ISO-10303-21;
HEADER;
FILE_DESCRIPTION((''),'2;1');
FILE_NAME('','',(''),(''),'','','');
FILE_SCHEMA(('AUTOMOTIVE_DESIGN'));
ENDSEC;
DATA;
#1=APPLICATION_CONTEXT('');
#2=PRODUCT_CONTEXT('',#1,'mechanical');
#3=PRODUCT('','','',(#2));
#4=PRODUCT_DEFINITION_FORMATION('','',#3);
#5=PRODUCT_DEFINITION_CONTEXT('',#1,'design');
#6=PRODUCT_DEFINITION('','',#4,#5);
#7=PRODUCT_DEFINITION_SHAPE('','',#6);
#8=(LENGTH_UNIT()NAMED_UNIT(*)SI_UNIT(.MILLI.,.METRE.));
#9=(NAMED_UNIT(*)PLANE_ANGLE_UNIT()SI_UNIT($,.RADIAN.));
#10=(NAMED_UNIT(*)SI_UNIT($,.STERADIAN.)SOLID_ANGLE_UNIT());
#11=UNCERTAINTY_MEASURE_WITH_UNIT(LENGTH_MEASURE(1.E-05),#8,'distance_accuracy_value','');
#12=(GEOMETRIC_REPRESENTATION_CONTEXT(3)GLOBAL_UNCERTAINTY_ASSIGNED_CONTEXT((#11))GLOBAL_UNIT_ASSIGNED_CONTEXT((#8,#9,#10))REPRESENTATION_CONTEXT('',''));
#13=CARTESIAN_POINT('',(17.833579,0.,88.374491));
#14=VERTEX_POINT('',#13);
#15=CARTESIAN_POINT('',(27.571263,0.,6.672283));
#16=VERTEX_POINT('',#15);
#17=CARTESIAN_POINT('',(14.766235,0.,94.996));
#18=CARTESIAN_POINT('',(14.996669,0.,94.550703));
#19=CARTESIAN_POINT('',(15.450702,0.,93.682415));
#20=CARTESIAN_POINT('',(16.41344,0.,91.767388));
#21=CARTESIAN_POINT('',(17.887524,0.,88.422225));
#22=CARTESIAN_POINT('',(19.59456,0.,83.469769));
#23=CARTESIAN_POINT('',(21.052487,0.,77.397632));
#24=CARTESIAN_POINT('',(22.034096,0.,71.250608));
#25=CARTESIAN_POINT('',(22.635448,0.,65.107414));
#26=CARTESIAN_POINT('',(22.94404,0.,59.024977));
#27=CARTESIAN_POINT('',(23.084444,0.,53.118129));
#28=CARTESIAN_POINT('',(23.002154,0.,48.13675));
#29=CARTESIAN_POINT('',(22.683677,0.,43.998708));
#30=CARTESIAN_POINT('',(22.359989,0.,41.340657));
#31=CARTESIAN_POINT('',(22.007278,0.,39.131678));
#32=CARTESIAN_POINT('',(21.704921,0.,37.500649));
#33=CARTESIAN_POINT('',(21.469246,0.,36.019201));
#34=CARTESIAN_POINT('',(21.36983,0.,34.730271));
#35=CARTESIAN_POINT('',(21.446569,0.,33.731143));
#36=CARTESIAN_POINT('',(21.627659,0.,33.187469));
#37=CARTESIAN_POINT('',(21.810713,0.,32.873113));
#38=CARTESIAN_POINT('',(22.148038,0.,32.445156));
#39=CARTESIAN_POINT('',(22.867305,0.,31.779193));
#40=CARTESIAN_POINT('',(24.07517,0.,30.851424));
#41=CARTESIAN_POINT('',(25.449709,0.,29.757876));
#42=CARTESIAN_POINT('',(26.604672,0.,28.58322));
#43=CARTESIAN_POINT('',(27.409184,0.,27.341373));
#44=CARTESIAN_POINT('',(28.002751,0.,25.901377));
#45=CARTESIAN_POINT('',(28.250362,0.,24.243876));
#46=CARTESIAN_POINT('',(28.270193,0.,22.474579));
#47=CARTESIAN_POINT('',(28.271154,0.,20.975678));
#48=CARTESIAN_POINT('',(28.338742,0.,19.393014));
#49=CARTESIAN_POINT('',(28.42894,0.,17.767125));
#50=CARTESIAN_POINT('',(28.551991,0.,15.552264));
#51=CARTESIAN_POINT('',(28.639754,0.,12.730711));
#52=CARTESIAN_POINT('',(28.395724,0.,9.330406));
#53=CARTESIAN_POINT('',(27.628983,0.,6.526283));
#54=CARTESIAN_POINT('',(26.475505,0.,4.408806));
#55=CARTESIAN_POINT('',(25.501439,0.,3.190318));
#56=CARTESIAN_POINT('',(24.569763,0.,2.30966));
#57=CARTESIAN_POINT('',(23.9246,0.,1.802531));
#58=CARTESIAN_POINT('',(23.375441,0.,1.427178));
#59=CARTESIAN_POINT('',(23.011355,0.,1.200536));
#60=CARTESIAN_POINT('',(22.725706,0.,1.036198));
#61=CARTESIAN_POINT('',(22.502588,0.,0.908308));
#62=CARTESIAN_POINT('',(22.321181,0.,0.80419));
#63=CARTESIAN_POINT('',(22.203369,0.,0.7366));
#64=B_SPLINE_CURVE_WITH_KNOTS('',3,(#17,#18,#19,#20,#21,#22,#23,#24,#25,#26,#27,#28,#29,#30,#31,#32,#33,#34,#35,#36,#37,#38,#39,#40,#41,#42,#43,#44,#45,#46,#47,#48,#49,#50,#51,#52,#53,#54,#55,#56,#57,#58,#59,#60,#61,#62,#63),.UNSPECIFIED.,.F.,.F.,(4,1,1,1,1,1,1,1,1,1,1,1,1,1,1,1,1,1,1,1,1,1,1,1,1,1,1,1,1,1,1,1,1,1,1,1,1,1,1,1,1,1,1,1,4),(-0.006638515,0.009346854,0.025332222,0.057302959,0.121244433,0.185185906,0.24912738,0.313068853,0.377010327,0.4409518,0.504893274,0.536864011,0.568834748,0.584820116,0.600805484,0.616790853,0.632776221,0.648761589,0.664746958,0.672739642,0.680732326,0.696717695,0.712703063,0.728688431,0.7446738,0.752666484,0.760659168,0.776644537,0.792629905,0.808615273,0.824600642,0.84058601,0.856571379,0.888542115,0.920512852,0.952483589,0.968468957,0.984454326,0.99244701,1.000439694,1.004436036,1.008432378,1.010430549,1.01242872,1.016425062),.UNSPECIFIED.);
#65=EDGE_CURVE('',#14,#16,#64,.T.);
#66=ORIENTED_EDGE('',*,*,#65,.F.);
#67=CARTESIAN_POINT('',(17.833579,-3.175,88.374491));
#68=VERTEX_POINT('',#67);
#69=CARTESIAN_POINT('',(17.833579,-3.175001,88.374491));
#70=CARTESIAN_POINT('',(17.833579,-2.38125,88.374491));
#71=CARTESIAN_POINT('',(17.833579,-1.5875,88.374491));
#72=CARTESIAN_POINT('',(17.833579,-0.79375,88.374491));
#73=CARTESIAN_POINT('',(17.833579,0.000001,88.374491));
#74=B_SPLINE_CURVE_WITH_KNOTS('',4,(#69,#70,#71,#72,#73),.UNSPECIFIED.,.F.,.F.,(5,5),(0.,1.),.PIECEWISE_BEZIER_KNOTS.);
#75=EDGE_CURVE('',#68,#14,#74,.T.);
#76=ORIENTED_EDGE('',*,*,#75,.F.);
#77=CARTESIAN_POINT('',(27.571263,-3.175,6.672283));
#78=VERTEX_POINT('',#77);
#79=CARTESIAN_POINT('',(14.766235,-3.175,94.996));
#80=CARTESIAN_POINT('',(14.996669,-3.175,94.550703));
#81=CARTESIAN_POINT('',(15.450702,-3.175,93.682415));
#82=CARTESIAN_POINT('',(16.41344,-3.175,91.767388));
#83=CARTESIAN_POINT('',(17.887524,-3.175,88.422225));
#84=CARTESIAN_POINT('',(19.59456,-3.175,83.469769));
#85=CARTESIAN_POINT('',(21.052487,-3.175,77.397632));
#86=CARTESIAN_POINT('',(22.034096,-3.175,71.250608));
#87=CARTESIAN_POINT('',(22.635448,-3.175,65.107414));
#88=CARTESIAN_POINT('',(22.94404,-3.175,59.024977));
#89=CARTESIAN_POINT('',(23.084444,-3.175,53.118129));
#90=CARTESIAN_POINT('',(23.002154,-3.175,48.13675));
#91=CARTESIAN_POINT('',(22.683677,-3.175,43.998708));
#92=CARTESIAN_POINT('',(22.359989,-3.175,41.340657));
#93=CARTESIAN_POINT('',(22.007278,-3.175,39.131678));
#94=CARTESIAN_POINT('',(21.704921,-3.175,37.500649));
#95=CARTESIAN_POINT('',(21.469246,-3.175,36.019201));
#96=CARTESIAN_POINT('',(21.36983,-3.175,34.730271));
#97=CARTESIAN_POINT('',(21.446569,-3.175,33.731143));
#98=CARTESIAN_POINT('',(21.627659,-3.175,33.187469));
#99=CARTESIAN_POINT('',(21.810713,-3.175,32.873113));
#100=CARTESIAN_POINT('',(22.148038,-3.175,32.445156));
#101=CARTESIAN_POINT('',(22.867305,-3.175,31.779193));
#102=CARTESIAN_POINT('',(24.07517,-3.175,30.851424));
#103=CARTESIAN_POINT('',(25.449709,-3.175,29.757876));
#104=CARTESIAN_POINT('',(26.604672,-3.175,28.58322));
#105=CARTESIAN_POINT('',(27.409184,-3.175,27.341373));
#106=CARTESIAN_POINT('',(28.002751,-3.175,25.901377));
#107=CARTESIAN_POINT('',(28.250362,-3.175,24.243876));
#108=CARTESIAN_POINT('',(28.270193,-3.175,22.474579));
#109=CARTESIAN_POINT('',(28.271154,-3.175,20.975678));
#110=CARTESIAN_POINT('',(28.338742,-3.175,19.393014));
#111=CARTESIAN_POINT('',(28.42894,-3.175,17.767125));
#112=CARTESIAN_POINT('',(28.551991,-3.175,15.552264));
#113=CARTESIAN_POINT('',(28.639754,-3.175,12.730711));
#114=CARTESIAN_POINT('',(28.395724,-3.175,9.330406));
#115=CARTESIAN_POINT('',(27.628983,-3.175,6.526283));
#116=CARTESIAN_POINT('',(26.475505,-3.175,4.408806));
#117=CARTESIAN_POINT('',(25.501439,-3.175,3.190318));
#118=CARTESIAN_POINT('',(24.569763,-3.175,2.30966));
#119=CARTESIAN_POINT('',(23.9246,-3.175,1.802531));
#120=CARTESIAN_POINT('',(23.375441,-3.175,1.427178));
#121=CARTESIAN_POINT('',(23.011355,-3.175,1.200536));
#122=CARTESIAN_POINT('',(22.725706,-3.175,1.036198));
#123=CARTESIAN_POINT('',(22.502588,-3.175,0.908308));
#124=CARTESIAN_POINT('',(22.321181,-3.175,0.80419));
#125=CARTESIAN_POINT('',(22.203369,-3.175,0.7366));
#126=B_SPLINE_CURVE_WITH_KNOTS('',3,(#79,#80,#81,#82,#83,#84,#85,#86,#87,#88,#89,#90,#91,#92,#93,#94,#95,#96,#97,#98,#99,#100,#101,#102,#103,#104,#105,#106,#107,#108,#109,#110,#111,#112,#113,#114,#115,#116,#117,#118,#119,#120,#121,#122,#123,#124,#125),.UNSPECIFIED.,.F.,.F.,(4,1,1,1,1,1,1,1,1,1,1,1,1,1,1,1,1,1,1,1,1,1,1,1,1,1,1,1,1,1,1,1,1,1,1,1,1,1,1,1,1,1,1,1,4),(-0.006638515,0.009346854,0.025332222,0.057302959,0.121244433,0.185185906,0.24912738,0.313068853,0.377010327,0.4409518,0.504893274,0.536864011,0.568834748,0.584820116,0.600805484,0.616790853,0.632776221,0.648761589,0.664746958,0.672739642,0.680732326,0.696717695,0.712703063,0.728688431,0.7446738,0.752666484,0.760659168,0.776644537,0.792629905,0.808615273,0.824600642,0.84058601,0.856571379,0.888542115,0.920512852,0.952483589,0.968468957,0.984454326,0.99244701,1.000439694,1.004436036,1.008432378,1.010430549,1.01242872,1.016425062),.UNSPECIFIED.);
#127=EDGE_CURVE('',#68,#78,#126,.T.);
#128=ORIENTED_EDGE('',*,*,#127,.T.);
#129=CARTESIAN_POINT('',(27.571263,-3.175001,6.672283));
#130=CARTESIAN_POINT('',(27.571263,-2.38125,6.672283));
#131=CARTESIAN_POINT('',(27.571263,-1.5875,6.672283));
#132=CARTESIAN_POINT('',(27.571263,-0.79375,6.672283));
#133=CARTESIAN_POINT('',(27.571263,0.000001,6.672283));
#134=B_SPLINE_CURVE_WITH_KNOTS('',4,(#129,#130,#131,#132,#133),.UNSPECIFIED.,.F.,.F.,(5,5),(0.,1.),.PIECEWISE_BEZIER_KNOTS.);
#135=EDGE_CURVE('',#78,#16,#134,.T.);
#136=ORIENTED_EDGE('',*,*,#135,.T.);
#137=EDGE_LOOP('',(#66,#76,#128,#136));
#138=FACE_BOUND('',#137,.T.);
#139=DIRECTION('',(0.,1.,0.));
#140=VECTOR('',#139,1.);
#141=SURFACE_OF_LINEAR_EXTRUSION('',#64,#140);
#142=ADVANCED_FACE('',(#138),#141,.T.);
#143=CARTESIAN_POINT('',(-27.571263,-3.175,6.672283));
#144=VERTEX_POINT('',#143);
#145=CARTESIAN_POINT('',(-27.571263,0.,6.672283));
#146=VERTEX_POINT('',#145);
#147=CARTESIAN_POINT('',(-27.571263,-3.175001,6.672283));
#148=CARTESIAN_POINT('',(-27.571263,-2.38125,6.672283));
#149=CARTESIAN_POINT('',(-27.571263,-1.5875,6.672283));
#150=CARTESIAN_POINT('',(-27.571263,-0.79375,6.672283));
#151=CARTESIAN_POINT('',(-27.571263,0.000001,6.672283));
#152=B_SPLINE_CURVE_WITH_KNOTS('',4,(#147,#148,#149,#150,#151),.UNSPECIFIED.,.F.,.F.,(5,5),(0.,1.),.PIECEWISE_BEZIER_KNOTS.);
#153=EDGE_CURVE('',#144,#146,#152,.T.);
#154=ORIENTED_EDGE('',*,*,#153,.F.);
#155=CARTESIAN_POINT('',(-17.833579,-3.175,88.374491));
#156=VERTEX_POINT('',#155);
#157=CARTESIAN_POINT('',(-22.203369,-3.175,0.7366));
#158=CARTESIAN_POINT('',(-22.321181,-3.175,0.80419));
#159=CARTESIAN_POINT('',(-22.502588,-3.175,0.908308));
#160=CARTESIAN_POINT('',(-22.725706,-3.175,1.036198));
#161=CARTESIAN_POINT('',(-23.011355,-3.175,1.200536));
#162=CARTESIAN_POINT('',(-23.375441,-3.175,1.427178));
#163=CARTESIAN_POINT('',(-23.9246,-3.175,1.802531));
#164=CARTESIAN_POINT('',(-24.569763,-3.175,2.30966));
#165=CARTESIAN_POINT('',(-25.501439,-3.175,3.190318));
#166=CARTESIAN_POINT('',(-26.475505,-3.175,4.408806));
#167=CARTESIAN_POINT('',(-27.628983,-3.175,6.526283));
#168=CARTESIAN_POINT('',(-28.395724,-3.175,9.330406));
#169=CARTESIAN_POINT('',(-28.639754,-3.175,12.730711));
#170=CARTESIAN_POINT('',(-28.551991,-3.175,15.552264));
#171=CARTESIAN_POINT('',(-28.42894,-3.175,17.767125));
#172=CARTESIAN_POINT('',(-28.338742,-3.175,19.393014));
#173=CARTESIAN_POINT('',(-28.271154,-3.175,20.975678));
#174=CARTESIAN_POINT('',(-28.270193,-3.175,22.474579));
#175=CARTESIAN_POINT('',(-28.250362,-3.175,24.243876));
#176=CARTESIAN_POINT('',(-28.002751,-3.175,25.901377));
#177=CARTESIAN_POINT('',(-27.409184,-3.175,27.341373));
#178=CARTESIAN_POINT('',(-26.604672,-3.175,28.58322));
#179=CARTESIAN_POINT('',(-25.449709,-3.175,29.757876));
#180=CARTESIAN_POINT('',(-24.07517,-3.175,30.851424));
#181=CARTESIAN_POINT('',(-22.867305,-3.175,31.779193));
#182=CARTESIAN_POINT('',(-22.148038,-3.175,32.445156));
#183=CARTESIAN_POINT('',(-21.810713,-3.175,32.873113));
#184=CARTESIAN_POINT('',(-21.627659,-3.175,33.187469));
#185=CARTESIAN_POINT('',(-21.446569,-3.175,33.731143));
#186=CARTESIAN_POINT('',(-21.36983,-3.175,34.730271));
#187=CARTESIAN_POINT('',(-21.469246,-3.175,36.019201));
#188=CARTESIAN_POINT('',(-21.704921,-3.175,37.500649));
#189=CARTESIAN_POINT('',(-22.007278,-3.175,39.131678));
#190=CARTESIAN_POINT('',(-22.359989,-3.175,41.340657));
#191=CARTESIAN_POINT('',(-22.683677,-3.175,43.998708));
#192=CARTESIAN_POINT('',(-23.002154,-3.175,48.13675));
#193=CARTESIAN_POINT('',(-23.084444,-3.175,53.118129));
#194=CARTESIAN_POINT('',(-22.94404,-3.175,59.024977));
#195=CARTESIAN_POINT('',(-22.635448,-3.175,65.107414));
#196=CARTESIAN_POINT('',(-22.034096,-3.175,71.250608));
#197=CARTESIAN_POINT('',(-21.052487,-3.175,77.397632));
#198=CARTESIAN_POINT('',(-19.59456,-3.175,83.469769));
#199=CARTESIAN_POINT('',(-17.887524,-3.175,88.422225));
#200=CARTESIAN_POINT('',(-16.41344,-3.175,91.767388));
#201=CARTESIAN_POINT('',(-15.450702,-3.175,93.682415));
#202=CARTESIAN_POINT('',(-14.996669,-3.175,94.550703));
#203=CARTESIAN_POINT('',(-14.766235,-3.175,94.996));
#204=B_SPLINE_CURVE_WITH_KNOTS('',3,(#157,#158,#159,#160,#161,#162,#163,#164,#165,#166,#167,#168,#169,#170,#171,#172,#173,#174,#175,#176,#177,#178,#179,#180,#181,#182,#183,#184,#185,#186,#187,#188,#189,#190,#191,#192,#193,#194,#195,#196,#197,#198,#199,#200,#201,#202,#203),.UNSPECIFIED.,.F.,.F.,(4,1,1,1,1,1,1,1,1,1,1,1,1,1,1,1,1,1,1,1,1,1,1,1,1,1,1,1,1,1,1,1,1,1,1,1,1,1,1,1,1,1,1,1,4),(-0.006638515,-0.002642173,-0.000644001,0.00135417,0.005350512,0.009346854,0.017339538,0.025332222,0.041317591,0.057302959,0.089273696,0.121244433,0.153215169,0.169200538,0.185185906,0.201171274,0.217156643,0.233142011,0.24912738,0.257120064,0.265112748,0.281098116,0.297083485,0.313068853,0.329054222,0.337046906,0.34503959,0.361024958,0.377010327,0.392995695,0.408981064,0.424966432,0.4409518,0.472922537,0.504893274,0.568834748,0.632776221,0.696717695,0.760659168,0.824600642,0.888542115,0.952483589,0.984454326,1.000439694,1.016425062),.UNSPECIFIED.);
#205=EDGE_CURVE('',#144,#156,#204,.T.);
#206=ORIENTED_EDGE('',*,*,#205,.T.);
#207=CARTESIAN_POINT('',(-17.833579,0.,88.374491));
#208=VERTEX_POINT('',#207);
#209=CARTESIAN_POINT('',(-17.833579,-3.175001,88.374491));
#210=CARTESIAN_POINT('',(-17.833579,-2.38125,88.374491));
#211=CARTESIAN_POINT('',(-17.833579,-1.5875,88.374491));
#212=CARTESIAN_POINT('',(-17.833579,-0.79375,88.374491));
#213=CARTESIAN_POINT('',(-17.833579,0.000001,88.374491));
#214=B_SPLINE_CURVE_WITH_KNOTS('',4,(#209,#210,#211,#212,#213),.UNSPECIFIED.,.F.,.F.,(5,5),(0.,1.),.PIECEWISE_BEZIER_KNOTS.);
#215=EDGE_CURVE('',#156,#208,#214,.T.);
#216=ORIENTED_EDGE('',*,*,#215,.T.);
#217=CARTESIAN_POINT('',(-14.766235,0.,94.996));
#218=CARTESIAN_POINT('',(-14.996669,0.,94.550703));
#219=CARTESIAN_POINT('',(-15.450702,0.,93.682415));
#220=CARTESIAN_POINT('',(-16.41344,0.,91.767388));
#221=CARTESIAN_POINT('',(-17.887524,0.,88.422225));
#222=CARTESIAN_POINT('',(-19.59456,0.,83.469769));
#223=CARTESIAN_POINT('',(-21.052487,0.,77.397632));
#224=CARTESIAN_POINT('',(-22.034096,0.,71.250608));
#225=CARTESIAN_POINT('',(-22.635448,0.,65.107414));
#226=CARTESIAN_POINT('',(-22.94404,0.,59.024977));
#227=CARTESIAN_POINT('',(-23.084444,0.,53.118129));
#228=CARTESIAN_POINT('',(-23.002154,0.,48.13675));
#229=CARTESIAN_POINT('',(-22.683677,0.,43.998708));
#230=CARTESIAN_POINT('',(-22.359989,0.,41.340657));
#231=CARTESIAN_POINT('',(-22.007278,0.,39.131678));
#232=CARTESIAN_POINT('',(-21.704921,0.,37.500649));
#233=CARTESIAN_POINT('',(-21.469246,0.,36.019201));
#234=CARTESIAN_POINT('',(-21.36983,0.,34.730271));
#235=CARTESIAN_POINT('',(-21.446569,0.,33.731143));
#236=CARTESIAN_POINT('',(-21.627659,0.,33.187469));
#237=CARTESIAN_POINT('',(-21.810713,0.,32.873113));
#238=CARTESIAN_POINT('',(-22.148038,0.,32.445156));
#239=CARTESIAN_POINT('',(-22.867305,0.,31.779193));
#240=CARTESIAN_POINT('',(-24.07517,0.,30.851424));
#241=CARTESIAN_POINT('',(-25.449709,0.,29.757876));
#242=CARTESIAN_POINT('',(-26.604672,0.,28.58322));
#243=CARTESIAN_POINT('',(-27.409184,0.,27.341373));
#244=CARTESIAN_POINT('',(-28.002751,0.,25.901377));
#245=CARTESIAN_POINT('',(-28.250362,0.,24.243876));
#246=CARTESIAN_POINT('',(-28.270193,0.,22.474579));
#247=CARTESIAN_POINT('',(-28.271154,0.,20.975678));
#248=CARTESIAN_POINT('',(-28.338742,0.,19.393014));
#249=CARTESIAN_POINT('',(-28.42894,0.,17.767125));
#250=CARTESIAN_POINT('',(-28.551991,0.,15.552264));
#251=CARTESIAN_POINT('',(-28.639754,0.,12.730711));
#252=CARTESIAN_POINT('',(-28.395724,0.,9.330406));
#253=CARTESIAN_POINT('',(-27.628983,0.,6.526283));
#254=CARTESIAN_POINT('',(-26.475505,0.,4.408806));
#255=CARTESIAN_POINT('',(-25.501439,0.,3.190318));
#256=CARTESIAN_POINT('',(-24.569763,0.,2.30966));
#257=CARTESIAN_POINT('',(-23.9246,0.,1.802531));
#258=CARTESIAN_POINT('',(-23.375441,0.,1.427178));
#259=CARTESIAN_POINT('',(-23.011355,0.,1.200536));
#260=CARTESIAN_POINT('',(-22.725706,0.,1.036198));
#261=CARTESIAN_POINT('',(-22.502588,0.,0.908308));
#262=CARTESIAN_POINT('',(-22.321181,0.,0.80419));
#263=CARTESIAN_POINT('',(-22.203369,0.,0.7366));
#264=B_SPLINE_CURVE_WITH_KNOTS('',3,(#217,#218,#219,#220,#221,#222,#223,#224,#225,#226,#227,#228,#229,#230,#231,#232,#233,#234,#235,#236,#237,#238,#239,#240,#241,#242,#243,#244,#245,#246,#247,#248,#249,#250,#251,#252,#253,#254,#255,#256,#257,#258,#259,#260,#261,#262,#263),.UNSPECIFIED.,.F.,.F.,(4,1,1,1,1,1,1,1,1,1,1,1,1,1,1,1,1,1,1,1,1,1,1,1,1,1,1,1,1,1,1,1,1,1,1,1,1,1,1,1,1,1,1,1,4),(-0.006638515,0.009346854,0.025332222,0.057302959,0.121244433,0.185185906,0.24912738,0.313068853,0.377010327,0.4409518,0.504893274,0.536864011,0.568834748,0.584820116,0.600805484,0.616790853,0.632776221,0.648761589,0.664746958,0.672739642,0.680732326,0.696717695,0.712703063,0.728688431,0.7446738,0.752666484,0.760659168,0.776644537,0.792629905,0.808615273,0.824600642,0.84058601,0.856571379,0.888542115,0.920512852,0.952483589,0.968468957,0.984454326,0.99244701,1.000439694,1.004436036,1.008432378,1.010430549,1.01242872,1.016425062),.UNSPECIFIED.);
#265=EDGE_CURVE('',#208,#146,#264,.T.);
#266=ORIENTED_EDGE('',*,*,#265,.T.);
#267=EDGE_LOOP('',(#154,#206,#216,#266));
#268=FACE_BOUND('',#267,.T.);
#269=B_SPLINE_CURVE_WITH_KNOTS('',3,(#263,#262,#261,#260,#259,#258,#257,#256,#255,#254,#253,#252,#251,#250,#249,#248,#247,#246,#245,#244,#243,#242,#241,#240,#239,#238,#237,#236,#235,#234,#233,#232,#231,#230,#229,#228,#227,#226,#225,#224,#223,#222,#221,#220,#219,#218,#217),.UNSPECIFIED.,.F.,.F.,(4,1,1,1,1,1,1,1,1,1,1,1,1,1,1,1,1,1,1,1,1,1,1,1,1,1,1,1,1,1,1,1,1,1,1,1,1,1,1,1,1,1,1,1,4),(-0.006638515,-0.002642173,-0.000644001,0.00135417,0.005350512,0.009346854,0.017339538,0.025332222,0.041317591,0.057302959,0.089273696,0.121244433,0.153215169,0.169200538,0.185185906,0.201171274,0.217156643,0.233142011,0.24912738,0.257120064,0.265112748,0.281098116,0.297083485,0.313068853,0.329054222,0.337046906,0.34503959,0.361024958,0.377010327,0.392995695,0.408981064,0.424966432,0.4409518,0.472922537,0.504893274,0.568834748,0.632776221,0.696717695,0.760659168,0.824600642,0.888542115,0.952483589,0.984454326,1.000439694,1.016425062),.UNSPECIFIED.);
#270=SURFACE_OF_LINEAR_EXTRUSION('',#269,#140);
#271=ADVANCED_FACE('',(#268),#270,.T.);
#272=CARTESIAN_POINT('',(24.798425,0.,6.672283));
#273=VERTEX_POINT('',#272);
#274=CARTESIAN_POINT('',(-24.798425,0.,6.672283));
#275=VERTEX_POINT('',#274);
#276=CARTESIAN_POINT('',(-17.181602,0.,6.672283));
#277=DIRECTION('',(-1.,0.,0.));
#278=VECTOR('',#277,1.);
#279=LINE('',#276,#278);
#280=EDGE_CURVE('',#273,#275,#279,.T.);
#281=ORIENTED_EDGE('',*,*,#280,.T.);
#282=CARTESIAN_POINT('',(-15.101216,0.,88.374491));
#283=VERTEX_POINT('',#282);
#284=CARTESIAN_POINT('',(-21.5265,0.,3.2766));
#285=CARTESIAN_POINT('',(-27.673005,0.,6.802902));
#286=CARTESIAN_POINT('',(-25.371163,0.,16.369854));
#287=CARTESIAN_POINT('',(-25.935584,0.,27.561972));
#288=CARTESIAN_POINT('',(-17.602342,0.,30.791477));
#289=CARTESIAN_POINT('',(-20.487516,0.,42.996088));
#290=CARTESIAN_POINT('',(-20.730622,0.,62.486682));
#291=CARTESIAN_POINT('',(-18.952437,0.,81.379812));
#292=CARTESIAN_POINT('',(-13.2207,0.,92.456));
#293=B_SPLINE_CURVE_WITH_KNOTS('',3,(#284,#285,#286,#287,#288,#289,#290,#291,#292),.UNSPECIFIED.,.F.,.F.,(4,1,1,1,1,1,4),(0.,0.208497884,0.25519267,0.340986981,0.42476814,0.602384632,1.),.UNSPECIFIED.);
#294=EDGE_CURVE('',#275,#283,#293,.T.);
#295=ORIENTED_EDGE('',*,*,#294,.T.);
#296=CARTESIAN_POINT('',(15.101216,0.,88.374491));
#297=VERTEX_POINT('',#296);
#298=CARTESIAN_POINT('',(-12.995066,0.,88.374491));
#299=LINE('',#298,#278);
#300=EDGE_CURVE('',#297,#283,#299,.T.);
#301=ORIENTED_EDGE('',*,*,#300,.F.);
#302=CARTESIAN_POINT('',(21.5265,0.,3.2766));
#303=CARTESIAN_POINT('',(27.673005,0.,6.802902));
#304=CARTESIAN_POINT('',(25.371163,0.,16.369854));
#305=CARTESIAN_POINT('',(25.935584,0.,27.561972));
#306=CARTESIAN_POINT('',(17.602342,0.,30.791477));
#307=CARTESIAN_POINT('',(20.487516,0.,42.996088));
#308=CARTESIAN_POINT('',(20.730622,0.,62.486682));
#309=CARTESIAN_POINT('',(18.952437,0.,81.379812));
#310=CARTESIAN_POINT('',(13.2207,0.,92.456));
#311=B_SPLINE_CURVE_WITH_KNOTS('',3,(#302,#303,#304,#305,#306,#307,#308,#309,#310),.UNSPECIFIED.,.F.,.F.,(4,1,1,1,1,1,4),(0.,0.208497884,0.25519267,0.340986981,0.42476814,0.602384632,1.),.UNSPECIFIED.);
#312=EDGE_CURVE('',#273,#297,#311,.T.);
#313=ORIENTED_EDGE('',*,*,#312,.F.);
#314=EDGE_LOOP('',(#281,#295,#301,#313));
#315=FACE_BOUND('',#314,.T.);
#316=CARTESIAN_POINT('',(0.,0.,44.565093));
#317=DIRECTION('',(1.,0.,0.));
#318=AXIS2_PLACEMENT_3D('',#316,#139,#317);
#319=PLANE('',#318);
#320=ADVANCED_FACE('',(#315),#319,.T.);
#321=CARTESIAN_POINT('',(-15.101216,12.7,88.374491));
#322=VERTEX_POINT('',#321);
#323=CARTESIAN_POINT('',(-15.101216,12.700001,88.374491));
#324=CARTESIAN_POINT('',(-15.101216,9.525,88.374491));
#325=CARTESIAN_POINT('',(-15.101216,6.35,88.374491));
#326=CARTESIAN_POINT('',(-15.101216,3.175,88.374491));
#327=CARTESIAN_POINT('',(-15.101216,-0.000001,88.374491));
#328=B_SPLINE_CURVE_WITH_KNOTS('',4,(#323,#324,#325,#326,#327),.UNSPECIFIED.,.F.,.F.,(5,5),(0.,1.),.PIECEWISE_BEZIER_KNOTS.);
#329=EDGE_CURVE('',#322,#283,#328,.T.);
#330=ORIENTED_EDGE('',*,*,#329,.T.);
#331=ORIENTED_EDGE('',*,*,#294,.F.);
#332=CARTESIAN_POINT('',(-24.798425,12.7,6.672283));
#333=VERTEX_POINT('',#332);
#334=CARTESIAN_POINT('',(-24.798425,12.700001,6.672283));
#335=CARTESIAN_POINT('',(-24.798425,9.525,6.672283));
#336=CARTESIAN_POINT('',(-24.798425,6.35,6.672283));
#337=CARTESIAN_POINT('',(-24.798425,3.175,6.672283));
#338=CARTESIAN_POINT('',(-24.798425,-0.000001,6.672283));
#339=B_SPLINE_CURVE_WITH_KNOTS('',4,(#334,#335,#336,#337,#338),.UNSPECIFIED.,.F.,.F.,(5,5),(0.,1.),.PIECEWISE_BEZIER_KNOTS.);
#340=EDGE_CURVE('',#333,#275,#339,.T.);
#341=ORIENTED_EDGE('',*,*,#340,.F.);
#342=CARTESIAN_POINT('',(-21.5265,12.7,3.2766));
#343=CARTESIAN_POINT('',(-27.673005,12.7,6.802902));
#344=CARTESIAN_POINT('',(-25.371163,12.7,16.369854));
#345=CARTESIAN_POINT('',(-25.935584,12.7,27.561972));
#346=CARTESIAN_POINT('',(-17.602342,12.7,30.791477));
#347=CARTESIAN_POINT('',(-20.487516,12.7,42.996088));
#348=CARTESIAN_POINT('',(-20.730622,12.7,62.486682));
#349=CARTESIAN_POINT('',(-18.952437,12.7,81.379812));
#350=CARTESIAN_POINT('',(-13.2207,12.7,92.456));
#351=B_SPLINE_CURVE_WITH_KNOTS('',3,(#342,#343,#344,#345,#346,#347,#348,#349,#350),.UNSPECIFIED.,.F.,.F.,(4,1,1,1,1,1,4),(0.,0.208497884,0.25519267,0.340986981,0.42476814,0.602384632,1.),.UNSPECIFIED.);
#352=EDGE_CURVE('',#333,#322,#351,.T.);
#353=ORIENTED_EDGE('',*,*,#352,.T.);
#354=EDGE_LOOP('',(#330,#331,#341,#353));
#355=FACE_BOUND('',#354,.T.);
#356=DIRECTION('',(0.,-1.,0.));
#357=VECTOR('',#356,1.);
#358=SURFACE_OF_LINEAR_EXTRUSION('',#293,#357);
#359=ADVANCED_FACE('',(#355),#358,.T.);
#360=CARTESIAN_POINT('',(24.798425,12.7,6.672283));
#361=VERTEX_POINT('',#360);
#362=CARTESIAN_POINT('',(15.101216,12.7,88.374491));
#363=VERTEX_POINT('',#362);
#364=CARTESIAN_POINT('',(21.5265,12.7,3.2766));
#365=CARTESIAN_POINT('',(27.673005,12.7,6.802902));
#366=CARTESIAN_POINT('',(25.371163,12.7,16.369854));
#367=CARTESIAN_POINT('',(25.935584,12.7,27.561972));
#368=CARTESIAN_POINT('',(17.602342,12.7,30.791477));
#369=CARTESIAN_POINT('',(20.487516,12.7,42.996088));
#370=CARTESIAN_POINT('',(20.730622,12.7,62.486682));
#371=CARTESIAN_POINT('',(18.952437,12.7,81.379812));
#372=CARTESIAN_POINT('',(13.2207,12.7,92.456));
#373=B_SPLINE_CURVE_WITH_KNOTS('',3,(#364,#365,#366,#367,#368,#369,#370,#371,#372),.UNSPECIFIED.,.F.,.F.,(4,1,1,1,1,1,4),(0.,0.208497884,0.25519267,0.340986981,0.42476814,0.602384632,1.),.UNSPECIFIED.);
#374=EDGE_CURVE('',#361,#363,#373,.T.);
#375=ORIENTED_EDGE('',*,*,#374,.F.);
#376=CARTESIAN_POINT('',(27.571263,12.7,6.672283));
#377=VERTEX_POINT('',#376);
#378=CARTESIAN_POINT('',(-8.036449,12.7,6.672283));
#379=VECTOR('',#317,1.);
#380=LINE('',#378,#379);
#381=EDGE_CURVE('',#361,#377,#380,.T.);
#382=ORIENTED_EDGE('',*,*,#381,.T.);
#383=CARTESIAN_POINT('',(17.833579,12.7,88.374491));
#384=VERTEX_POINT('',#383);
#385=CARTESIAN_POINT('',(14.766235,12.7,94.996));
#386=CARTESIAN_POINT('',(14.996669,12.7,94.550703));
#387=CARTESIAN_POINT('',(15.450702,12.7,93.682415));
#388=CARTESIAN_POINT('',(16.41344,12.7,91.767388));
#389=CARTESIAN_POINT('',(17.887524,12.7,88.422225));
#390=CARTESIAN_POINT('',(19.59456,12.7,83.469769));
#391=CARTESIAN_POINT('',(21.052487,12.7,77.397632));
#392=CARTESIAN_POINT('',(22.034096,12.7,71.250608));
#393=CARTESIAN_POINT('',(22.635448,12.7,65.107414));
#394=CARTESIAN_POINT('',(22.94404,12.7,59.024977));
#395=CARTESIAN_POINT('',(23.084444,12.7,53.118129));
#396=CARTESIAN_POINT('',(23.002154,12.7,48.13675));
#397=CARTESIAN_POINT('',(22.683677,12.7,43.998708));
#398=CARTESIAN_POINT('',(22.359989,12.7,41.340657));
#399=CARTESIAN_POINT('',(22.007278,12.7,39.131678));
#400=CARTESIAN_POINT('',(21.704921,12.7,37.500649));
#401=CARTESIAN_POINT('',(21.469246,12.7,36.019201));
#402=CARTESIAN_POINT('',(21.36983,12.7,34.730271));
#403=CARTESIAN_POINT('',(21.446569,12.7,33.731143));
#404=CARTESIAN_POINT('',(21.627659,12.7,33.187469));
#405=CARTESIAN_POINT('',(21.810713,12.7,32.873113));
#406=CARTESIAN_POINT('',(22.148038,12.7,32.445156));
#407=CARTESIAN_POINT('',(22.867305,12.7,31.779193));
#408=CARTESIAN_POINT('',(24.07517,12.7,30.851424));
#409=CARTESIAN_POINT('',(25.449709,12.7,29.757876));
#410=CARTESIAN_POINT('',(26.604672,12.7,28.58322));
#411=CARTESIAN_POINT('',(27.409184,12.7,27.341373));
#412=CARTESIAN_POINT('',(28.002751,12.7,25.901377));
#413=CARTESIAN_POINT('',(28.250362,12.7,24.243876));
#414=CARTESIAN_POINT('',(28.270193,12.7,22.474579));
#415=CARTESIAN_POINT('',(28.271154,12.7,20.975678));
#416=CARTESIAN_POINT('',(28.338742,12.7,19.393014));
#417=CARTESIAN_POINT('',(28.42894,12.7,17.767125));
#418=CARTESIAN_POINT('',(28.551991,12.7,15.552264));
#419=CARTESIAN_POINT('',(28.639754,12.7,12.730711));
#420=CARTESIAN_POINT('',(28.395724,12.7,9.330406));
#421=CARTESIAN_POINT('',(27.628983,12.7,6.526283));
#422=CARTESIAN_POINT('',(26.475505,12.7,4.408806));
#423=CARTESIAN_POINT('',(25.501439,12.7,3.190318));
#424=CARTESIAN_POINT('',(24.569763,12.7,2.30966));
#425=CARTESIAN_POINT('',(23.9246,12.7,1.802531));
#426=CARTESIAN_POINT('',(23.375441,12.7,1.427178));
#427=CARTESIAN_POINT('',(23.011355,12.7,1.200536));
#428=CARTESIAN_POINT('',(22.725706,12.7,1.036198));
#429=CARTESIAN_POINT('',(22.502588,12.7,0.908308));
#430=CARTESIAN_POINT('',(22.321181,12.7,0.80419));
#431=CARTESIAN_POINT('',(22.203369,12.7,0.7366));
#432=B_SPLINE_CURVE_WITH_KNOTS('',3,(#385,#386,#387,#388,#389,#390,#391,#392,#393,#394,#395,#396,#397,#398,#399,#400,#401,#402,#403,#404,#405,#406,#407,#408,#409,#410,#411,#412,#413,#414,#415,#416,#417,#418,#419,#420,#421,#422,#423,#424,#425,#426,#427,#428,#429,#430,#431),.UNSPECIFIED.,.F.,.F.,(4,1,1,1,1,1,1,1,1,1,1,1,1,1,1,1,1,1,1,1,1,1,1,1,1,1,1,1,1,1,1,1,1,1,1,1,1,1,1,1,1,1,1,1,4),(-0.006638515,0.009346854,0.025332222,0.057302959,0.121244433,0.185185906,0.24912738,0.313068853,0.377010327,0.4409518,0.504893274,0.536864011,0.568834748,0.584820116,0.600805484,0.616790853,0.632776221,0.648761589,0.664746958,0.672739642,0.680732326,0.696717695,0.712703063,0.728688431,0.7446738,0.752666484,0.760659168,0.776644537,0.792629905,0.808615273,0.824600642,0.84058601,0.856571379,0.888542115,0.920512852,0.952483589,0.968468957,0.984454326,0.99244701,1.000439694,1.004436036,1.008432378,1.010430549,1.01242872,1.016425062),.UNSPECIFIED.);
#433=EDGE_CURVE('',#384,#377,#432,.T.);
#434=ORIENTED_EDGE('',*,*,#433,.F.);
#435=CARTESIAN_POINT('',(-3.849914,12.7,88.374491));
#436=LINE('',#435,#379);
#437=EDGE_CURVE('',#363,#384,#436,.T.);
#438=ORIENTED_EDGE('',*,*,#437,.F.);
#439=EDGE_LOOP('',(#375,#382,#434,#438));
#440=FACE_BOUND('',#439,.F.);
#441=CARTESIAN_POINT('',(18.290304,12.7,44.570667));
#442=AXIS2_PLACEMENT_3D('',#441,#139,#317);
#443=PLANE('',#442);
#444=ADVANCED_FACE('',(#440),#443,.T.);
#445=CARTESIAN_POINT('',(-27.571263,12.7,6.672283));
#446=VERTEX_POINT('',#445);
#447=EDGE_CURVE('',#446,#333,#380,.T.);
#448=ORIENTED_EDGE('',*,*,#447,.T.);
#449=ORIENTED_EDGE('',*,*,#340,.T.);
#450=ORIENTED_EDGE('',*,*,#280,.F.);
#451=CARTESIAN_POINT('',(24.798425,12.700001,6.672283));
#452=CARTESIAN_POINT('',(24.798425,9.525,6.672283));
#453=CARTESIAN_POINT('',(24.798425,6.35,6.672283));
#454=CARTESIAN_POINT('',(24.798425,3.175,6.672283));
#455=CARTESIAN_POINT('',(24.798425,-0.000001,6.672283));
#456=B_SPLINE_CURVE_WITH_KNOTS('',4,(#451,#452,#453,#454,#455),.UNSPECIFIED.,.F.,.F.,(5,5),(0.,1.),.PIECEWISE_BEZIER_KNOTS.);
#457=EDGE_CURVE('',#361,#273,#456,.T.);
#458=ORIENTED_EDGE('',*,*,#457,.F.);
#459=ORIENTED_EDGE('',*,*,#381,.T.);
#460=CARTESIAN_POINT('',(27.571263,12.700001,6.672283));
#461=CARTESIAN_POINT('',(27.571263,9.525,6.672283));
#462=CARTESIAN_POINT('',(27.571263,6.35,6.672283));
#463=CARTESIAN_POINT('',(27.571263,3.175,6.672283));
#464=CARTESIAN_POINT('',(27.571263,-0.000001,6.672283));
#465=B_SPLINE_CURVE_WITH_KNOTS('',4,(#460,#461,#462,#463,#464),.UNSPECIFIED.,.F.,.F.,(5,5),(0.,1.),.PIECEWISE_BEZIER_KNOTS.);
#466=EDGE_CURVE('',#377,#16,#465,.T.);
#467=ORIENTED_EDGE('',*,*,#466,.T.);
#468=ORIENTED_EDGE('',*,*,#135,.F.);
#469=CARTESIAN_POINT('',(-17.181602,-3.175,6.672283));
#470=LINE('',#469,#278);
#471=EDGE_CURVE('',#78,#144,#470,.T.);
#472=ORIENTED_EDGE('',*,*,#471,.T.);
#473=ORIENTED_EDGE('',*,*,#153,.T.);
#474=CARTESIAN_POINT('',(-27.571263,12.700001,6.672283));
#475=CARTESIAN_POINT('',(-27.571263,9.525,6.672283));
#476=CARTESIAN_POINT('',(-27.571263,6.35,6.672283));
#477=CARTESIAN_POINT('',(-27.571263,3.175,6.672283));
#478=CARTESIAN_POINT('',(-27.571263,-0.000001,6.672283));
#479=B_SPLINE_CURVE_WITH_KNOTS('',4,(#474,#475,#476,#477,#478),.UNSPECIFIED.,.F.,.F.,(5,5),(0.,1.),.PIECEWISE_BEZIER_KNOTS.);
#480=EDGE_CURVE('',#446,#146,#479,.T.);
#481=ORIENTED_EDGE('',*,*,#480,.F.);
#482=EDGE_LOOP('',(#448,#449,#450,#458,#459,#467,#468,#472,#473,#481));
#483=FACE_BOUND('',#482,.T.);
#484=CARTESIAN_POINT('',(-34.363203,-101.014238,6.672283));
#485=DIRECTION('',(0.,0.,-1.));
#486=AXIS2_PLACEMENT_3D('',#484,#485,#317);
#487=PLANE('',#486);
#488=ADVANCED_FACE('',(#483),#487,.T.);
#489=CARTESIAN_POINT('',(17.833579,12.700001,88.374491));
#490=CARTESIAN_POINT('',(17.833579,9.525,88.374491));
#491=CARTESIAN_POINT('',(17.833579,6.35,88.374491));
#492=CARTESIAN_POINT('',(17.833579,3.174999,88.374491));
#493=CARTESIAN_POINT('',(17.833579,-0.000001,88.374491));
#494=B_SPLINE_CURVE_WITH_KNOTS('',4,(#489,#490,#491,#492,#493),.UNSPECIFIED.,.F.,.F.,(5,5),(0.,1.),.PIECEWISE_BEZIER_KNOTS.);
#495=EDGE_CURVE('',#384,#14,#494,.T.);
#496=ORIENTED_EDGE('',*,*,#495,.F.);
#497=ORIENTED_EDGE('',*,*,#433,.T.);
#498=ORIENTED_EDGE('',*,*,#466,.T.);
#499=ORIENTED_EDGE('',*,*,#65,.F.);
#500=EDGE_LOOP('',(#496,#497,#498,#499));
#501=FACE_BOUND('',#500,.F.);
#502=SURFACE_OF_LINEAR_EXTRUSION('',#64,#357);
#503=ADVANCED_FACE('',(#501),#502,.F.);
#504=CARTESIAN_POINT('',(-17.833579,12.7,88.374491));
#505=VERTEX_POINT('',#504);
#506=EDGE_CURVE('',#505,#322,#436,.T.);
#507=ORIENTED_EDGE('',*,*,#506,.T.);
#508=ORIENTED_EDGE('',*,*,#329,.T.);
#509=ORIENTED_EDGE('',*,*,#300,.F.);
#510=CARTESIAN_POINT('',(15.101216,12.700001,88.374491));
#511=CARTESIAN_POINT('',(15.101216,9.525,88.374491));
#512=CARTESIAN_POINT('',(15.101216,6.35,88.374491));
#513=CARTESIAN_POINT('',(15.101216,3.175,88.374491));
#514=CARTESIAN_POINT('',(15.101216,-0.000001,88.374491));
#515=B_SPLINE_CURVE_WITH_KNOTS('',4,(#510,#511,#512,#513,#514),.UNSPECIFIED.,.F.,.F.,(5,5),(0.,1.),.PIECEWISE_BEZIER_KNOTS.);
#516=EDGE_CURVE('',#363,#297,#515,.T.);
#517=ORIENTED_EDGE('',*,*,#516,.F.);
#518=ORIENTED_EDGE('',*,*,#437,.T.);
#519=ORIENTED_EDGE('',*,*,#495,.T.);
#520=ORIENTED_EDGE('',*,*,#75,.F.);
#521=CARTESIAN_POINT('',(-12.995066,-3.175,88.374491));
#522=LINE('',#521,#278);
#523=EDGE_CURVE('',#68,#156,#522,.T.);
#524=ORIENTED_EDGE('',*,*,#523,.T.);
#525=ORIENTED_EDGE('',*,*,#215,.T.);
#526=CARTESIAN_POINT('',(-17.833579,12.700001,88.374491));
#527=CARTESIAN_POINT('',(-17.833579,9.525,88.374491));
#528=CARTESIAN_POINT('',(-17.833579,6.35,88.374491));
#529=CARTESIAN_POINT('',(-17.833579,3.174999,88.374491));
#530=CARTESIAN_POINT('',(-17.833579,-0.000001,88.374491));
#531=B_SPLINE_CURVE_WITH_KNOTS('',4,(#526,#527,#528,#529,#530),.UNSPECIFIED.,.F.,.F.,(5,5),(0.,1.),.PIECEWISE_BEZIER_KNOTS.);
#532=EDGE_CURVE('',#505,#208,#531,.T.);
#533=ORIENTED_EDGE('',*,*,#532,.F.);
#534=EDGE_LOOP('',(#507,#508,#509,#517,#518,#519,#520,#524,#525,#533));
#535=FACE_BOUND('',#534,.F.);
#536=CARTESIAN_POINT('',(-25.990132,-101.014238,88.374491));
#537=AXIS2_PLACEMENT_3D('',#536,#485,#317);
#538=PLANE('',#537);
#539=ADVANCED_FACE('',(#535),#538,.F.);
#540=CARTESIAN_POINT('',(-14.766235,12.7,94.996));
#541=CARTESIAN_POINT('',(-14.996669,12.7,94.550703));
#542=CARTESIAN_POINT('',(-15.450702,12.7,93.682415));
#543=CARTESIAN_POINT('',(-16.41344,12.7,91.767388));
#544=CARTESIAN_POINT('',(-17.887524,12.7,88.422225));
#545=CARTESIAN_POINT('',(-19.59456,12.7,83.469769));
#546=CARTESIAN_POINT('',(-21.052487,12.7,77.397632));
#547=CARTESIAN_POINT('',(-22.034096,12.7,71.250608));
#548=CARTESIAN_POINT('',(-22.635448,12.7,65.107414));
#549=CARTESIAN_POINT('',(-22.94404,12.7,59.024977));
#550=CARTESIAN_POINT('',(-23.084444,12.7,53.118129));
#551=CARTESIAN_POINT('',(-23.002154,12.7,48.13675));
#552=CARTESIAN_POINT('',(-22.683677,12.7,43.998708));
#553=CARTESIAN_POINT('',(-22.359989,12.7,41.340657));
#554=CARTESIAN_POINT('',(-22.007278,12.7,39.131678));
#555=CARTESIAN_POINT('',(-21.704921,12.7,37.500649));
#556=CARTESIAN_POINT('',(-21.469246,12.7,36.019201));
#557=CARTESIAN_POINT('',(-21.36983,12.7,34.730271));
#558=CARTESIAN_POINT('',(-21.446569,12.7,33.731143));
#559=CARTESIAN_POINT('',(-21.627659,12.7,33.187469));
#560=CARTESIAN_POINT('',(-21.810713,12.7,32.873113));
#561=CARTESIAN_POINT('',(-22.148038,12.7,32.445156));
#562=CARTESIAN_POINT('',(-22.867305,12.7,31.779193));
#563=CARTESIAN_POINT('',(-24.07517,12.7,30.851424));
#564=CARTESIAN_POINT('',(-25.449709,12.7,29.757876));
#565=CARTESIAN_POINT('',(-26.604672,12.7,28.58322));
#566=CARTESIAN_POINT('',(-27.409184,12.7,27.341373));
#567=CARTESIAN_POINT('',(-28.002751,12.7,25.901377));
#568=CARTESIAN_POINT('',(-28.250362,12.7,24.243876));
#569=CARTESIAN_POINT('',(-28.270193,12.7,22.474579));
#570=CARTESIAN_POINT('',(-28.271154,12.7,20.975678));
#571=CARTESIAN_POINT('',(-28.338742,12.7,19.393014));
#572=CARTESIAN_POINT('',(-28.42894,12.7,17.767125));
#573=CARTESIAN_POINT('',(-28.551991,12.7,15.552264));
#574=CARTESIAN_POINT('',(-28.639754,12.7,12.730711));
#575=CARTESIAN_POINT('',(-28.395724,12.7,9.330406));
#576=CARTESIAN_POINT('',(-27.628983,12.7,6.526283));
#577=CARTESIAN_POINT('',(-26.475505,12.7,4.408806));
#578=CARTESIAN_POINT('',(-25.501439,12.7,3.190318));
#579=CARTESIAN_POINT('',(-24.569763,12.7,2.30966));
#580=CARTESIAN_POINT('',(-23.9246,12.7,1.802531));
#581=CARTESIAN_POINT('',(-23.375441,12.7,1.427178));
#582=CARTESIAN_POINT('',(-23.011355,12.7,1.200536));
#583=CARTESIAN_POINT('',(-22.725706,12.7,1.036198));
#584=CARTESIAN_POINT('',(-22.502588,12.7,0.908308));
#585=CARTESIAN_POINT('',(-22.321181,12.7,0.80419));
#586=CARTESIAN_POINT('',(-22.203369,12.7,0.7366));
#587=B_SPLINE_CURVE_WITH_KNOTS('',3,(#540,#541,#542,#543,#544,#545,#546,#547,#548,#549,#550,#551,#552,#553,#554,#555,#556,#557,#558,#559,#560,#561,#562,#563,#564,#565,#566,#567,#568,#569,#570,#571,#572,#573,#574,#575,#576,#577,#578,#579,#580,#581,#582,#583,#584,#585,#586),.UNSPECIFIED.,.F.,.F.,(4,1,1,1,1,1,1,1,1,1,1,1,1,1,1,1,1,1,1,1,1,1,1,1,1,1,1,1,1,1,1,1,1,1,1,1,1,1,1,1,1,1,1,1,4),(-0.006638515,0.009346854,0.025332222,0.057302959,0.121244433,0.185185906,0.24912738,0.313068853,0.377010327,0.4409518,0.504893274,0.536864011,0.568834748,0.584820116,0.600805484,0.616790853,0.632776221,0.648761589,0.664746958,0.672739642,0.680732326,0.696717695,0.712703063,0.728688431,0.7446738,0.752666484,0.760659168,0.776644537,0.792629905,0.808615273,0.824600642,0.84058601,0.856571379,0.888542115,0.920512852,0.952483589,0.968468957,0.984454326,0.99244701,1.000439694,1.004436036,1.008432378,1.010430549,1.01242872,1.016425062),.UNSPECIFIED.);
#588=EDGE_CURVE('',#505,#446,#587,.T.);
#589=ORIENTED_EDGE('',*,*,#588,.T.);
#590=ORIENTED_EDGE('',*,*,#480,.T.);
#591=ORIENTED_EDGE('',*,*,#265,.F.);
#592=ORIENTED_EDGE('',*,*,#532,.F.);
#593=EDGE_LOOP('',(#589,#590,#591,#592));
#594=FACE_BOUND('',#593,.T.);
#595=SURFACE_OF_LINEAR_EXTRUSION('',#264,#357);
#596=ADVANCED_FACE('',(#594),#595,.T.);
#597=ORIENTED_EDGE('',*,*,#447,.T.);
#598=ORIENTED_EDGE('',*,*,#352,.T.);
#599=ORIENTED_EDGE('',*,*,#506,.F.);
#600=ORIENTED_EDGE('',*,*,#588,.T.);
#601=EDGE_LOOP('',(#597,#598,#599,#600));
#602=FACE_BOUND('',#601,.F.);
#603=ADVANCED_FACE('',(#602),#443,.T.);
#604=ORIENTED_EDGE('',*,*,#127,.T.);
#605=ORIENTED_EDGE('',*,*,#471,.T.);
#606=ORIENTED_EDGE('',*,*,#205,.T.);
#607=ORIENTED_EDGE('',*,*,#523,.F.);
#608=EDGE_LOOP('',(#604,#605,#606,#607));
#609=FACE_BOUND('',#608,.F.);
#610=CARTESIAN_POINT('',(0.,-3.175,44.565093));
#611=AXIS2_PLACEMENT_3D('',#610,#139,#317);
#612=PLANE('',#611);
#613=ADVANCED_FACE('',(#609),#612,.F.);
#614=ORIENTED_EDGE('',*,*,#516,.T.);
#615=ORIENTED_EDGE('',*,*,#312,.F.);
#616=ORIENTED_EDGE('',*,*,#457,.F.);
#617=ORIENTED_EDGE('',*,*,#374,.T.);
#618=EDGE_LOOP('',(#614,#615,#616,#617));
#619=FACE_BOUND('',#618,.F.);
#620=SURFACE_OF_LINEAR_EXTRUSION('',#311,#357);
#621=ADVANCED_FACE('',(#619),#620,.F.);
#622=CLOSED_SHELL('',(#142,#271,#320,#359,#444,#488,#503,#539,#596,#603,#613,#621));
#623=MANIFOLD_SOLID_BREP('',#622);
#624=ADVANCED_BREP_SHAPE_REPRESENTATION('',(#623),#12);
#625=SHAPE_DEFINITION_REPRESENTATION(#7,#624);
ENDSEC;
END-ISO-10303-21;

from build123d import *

# Parameters (mm, degrees)
BOSS_EXTRUDE1_DEPTH     = 12.7
BOSS_EXTRUDE2_DEPTH     = 3.175
CUT_EXTRUDE1_DEPTH      = 101.014238242
CUT_EXTRUDE1_DEPTH_BACK = 101.014238242
SKETCH4_W               = 67.36433317
SKETCH4_H               = 14.054429222
CUT_EXTRUDE2_DEPTH      = 101.014238242
CUT_EXTRUDE2_DEPTH_BACK = 101.014238242
SKETCH5_W               = 49.650139024
SKETCH5_H               = 11.35292813


with BuildPart() as part:
    # Sketch1 → Boss-Extrude1 (new body)
    with BuildSketch(Plane(origin=(0, 0, 0), x_dir=(1, 0, 0), z_dir=(0, 1, 0))):
        with BuildLine():
            Line((-21.5265, -3.2766), (0, -3.2766))
            Line((0, -3.2766), (0, -0.7366))
            Line((0, -0.7366), (-22.203368624, -0.7366))
            add(Edge.make_bspline(
                [(-14.766234965, -94.996), (-14.996668515, -94.550702961), (-15.450701659, -93.682415389), (-16.413439589, -91.767388196), (-17.887523694, -88.422224636), (-19.594560475, -83.469769024), (-21.052486613, -77.397632478), (-22.034096417, -71.250607736), (-22.635448462, -65.107414018), (-22.944039592, -59.024976794), (-23.084444297, -53.118128932), (-23.002154011, -48.13674982), (-22.683676725, -43.998708308), (-22.359989314, -41.340657214), (-22.007277512, -39.131677721), (-21.704921231, -37.500648633), (-21.469245926, -36.019201003), (-21.369830007, -34.730271156), (-21.446569087, -33.731143322), (-21.627659106, -33.187469417), (-21.810713281, -32.873112803), (-22.148038091, -32.44515636), (-22.867304718, -31.779192766), (-24.075169697, -30.851423932), (-25.449709236, -29.757875503), (-26.604671748, -28.583220413), (-27.409184219, -27.341372966), (-28.002750801, -25.901376523), (-28.25036248, -24.243876032), (-28.270193255, -22.474579202), (-28.2711543, -20.975677511), (-28.338741981, -19.393014324), (-28.42894001, -17.767125256), (-28.551990808, -15.552264072), (-28.639753679, -12.730710637), (-28.395723992, -9.330406242), (-27.628982584, -6.526282911), (-26.475505353, -4.408806497), (-25.501439175, -3.190317526), (-24.569763004, -2.309659584), (-23.92459958, -1.802530754), (-23.375440816, -1.427178175), (-23.011355495, -1.200536295), (-22.725705767, -1.036197531), (-22.502588374, -0.908307956), (-22.321180554, -0.804189707), (-22.203368624, -0.7366)],
                knots=[-0.006638515, -0.006638515, -0.006638515, -0.006638515, 0.009346854, 0.025332222, 0.057302959, 0.121244433, 0.185185906, 0.24912738, 0.313068853, 0.377010327, 0.4409518, 0.504893274, 0.536864011, 0.568834748, 0.584820116, 0.600805484, 0.616790853, 0.632776221, 0.648761589, 0.664746958, 0.672739642, 0.680732326, 0.696717695, 0.712703063, 0.728688431, 0.7446738, 0.752666484, 0.760659168, 0.776644537, 0.792629905, 0.808615273, 0.824600642, 0.84058601, 0.856571379, 0.888542115, 0.920512852, 0.952483589, 0.968468957, 0.984454326, 0.99244701, 1.000439694, 1.004436036, 1.008432378, 1.010430549, 1.01242872, 1.016425062, 1.016425062, 1.016425062, 1.016425062], degree=3))
            Line((-14.766234965, -94.996), (0, -94.996))
            Line((0, -94.996), (0, -92.456))
            Line((0, -92.456), (-13.2207, -92.456))
            add(Edge.make_bspline(
                [(-21.5265, -3.2766), (-27.673005337, -6.802902412), (-25.371163365, -16.369853549), (-25.935584149, -27.56197211), (-17.602342179, -30.7914771), (-20.487516457, -42.996088051), (-20.730621659, -62.486681847), (-18.952436581, -81.379811959), (-13.2207, -92.456)],
                knots=[0, 0, 0, 0, 0.208497884, 0.25519267, 0.340986981, 0.42476814, 0.602384632, 1, 1, 1, 1], degree=3))
        make_face()
    boss_extrude1 = extrude(amount=BOSS_EXTRUDE1_DEPTH)

    # Mirror1: Boss-Extrude1 across plane
    add(boss_extrude1.mirror(Plane(origin=(0, 0, 0), x_dir=(0, 0, 1), z_dir=(1, 0, 0))))

    # Sketch3 → Boss-Extrude2 (add)
    with BuildSketch(Plane(origin=(0, 0, 0), x_dir=(1, 0, 0), z_dir=(0, 1, 0))):
        with BuildLine():
            Line((-14.766234965, -94.996), (14.766234965, -94.996))
            add(Edge.make_bspline(
                [(14.766234965, -94.996), (14.996668515, -94.550702961), (15.450701659, -93.682415389), (16.413439589, -91.767388196), (17.887523694, -88.422224636), (19.594560475, -83.469769024), (21.052486613, -77.397632478), (22.034096417, -71.250607736), (22.635448462, -65.107414018), (22.944039592, -59.024976794), (23.084444297, -53.118128932), (23.002154011, -48.13674982), (22.683676725, -43.998708308), (22.359989314, -41.340657214), (22.007277512, -39.131677721), (21.704921231, -37.500648633), (21.469245926, -36.019201003), (21.369830007, -34.730271156), (21.446569087, -33.731143322), (21.627659106, -33.187469417), (21.810713281, -32.873112803), (22.148038091, -32.44515636), (22.867304718, -31.779192766), (24.075169697, -30.851423932), (25.449709236, -29.757875503), (26.604671748, -28.583220413), (27.409184219, -27.341372966), (28.002750801, -25.901376523), (28.25036248, -24.243876032), (28.270193255, -22.474579202), (28.2711543, -20.975677511), (28.338741981, -19.393014324), (28.42894001, -17.767125256), (28.551990808, -15.552264072), (28.639753679, -12.730710637), (28.395723992, -9.330406242), (27.628982584, -6.526282911), (26.475505353, -4.408806497), (25.501439175, -3.190317526), (24.569763004, -2.309659584), (23.92459958, -1.802530754), (23.375440816, -1.427178175), (23.011355495, -1.200536295), (22.725705767, -1.036197531), (22.502588374, -0.908307956), (22.321180554, -0.804189707), (22.203368624, -0.7366)],
                knots=[-0.006638515, -0.006638515, -0.006638515, -0.006638515, 0.009346854, 0.025332222, 0.057302959, 0.121244433, 0.185185906, 0.24912738, 0.313068853, 0.377010327, 0.4409518, 0.504893274, 0.536864011, 0.568834748, 0.584820116, 0.600805484, 0.616790853, 0.632776221, 0.648761589, 0.664746958, 0.672739642, 0.680732326, 0.696717695, 0.712703063, 0.728688431, 0.7446738, 0.752666484, 0.760659168, 0.776644537, 0.792629905, 0.808615273, 0.824600642, 0.84058601, 0.856571379, 0.888542115, 0.920512852, 0.952483589, 0.968468957, 0.984454326, 0.99244701, 1.000439694, 1.004436036, 1.008432378, 1.010430549, 1.01242872, 1.016425062, 1.016425062, 1.016425062, 1.016425062], degree=3))
            Line((22.203368624, -0.7366), (-22.203368624, -0.7366))
            add(Edge.make_bspline(
                [(-22.203368624, -0.7366), (-22.321180554, -0.804189707), (-22.502588374, -0.908307956), (-22.725705767, -1.036197531), (-23.011355495, -1.200536295), (-23.375440816, -1.427178175), (-23.92459958, -1.802530754), (-24.569763004, -2.309659584), (-25.501439175, -3.190317526), (-26.475505353, -4.408806497), (-27.628982584, -6.526282911), (-28.395723992, -9.330406242), (-28.639753679, -12.730710637), (-28.551990808, -15.552264072), (-28.42894001, -17.767125256), (-28.338741981, -19.393014324), (-28.2711543, -20.975677511), (-28.270193255, -22.474579202), (-28.25036248, -24.243876032), (-28.002750801, -25.901376523), (-27.409184219, -27.341372966), (-26.604671748, -28.583220413), (-25.449709236, -29.757875503), (-24.075169697, -30.851423932), (-22.867304718, -31.779192766), (-22.148038091, -32.44515636), (-21.810713281, -32.873112803), (-21.627659106, -33.187469417), (-21.446569087, -33.731143322), (-21.369830007, -34.730271156), (-21.469245926, -36.019201003), (-21.704921231, -37.500648633), (-22.007277512, -39.131677721), (-22.359989314, -41.340657214), (-22.683676725, -43.998708308), (-23.002154011, -48.13674982), (-23.084444297, -53.118128932), (-22.944039592, -59.024976794), (-22.635448462, -65.107414018), (-22.034096417, -71.250607736), (-21.052486613, -77.397632478), (-19.594560475, -83.469769024), (-17.887523694, -88.422224636), (-16.413439589, -91.767388196), (-15.450701659, -93.682415389), (-14.996668515, -94.550702961), (-14.766234965, -94.996)],
                knots=[-0.006638515, -0.006638515, -0.006638515, -0.006638515, -0.002642173, -0.000644001, 0.00135417, 0.005350512, 0.009346854, 0.017339538, 0.025332222, 0.041317591, 0.057302959, 0.089273696, 0.121244433, 0.153215169, 0.169200538, 0.185185906, 0.201171274, 0.217156643, 0.233142011, 0.24912738, 0.257120064, 0.265112748, 0.281098116, 0.297083485, 0.313068853, 0.329054222, 0.337046906, 0.34503959, 0.361024958, 0.377010327, 0.392995695, 0.408981064, 0.424966432, 0.4409518, 0.472922537, 0.504893274, 0.568834748, 0.632776221, 0.696717695, 0.760659168, 0.824600642, 0.888542115, 0.952483589, 0.984454326, 1.000439694, 1.016425062, 1.016425062, 1.016425062, 1.016425062], degree=3))
        make_face()
    extrude(amount=-BOSS_EXTRUDE2_DEPTH)

    # Sketch4 → Cut-Extrude1 (cut, two sides: drawn at the far end of the back side and taken through both)
    with BuildSketch(Plane(origin=(0, 0, 0), x_dir=(1, 0, 0), z_dir=(0, 1, 0)).offset(-CUT_EXTRUDE1_DEPTH_BACK)):
        with Locations((-0.681036793, 0.354931298)):
            Rectangle(SKETCH4_W, SKETCH4_H)
    extrude(amount=CUT_EXTRUDE1_DEPTH + CUT_EXTRUDE1_DEPTH_BACK, mode=Mode.SUBTRACT)

    # Sketch5 → Cut-Extrude2 (cut, two sides: drawn at the far end of the back side and taken through both)
    with BuildSketch(Plane(origin=(0, 0, 0), x_dir=(1, 0, 0), z_dir=(0, 1, 0)).offset(-CUT_EXTRUDE2_DEPTH_BACK)):
        with Locations((-1.165062558, -94.05095474)):
            Rectangle(SKETCH5_W, SKETCH5_H)
    extrude(amount=CUT_EXTRUDE2_DEPTH + CUT_EXTRUDE2_DEPTH_BACK, mode=Mode.SUBTRACT)


solid = part.part
